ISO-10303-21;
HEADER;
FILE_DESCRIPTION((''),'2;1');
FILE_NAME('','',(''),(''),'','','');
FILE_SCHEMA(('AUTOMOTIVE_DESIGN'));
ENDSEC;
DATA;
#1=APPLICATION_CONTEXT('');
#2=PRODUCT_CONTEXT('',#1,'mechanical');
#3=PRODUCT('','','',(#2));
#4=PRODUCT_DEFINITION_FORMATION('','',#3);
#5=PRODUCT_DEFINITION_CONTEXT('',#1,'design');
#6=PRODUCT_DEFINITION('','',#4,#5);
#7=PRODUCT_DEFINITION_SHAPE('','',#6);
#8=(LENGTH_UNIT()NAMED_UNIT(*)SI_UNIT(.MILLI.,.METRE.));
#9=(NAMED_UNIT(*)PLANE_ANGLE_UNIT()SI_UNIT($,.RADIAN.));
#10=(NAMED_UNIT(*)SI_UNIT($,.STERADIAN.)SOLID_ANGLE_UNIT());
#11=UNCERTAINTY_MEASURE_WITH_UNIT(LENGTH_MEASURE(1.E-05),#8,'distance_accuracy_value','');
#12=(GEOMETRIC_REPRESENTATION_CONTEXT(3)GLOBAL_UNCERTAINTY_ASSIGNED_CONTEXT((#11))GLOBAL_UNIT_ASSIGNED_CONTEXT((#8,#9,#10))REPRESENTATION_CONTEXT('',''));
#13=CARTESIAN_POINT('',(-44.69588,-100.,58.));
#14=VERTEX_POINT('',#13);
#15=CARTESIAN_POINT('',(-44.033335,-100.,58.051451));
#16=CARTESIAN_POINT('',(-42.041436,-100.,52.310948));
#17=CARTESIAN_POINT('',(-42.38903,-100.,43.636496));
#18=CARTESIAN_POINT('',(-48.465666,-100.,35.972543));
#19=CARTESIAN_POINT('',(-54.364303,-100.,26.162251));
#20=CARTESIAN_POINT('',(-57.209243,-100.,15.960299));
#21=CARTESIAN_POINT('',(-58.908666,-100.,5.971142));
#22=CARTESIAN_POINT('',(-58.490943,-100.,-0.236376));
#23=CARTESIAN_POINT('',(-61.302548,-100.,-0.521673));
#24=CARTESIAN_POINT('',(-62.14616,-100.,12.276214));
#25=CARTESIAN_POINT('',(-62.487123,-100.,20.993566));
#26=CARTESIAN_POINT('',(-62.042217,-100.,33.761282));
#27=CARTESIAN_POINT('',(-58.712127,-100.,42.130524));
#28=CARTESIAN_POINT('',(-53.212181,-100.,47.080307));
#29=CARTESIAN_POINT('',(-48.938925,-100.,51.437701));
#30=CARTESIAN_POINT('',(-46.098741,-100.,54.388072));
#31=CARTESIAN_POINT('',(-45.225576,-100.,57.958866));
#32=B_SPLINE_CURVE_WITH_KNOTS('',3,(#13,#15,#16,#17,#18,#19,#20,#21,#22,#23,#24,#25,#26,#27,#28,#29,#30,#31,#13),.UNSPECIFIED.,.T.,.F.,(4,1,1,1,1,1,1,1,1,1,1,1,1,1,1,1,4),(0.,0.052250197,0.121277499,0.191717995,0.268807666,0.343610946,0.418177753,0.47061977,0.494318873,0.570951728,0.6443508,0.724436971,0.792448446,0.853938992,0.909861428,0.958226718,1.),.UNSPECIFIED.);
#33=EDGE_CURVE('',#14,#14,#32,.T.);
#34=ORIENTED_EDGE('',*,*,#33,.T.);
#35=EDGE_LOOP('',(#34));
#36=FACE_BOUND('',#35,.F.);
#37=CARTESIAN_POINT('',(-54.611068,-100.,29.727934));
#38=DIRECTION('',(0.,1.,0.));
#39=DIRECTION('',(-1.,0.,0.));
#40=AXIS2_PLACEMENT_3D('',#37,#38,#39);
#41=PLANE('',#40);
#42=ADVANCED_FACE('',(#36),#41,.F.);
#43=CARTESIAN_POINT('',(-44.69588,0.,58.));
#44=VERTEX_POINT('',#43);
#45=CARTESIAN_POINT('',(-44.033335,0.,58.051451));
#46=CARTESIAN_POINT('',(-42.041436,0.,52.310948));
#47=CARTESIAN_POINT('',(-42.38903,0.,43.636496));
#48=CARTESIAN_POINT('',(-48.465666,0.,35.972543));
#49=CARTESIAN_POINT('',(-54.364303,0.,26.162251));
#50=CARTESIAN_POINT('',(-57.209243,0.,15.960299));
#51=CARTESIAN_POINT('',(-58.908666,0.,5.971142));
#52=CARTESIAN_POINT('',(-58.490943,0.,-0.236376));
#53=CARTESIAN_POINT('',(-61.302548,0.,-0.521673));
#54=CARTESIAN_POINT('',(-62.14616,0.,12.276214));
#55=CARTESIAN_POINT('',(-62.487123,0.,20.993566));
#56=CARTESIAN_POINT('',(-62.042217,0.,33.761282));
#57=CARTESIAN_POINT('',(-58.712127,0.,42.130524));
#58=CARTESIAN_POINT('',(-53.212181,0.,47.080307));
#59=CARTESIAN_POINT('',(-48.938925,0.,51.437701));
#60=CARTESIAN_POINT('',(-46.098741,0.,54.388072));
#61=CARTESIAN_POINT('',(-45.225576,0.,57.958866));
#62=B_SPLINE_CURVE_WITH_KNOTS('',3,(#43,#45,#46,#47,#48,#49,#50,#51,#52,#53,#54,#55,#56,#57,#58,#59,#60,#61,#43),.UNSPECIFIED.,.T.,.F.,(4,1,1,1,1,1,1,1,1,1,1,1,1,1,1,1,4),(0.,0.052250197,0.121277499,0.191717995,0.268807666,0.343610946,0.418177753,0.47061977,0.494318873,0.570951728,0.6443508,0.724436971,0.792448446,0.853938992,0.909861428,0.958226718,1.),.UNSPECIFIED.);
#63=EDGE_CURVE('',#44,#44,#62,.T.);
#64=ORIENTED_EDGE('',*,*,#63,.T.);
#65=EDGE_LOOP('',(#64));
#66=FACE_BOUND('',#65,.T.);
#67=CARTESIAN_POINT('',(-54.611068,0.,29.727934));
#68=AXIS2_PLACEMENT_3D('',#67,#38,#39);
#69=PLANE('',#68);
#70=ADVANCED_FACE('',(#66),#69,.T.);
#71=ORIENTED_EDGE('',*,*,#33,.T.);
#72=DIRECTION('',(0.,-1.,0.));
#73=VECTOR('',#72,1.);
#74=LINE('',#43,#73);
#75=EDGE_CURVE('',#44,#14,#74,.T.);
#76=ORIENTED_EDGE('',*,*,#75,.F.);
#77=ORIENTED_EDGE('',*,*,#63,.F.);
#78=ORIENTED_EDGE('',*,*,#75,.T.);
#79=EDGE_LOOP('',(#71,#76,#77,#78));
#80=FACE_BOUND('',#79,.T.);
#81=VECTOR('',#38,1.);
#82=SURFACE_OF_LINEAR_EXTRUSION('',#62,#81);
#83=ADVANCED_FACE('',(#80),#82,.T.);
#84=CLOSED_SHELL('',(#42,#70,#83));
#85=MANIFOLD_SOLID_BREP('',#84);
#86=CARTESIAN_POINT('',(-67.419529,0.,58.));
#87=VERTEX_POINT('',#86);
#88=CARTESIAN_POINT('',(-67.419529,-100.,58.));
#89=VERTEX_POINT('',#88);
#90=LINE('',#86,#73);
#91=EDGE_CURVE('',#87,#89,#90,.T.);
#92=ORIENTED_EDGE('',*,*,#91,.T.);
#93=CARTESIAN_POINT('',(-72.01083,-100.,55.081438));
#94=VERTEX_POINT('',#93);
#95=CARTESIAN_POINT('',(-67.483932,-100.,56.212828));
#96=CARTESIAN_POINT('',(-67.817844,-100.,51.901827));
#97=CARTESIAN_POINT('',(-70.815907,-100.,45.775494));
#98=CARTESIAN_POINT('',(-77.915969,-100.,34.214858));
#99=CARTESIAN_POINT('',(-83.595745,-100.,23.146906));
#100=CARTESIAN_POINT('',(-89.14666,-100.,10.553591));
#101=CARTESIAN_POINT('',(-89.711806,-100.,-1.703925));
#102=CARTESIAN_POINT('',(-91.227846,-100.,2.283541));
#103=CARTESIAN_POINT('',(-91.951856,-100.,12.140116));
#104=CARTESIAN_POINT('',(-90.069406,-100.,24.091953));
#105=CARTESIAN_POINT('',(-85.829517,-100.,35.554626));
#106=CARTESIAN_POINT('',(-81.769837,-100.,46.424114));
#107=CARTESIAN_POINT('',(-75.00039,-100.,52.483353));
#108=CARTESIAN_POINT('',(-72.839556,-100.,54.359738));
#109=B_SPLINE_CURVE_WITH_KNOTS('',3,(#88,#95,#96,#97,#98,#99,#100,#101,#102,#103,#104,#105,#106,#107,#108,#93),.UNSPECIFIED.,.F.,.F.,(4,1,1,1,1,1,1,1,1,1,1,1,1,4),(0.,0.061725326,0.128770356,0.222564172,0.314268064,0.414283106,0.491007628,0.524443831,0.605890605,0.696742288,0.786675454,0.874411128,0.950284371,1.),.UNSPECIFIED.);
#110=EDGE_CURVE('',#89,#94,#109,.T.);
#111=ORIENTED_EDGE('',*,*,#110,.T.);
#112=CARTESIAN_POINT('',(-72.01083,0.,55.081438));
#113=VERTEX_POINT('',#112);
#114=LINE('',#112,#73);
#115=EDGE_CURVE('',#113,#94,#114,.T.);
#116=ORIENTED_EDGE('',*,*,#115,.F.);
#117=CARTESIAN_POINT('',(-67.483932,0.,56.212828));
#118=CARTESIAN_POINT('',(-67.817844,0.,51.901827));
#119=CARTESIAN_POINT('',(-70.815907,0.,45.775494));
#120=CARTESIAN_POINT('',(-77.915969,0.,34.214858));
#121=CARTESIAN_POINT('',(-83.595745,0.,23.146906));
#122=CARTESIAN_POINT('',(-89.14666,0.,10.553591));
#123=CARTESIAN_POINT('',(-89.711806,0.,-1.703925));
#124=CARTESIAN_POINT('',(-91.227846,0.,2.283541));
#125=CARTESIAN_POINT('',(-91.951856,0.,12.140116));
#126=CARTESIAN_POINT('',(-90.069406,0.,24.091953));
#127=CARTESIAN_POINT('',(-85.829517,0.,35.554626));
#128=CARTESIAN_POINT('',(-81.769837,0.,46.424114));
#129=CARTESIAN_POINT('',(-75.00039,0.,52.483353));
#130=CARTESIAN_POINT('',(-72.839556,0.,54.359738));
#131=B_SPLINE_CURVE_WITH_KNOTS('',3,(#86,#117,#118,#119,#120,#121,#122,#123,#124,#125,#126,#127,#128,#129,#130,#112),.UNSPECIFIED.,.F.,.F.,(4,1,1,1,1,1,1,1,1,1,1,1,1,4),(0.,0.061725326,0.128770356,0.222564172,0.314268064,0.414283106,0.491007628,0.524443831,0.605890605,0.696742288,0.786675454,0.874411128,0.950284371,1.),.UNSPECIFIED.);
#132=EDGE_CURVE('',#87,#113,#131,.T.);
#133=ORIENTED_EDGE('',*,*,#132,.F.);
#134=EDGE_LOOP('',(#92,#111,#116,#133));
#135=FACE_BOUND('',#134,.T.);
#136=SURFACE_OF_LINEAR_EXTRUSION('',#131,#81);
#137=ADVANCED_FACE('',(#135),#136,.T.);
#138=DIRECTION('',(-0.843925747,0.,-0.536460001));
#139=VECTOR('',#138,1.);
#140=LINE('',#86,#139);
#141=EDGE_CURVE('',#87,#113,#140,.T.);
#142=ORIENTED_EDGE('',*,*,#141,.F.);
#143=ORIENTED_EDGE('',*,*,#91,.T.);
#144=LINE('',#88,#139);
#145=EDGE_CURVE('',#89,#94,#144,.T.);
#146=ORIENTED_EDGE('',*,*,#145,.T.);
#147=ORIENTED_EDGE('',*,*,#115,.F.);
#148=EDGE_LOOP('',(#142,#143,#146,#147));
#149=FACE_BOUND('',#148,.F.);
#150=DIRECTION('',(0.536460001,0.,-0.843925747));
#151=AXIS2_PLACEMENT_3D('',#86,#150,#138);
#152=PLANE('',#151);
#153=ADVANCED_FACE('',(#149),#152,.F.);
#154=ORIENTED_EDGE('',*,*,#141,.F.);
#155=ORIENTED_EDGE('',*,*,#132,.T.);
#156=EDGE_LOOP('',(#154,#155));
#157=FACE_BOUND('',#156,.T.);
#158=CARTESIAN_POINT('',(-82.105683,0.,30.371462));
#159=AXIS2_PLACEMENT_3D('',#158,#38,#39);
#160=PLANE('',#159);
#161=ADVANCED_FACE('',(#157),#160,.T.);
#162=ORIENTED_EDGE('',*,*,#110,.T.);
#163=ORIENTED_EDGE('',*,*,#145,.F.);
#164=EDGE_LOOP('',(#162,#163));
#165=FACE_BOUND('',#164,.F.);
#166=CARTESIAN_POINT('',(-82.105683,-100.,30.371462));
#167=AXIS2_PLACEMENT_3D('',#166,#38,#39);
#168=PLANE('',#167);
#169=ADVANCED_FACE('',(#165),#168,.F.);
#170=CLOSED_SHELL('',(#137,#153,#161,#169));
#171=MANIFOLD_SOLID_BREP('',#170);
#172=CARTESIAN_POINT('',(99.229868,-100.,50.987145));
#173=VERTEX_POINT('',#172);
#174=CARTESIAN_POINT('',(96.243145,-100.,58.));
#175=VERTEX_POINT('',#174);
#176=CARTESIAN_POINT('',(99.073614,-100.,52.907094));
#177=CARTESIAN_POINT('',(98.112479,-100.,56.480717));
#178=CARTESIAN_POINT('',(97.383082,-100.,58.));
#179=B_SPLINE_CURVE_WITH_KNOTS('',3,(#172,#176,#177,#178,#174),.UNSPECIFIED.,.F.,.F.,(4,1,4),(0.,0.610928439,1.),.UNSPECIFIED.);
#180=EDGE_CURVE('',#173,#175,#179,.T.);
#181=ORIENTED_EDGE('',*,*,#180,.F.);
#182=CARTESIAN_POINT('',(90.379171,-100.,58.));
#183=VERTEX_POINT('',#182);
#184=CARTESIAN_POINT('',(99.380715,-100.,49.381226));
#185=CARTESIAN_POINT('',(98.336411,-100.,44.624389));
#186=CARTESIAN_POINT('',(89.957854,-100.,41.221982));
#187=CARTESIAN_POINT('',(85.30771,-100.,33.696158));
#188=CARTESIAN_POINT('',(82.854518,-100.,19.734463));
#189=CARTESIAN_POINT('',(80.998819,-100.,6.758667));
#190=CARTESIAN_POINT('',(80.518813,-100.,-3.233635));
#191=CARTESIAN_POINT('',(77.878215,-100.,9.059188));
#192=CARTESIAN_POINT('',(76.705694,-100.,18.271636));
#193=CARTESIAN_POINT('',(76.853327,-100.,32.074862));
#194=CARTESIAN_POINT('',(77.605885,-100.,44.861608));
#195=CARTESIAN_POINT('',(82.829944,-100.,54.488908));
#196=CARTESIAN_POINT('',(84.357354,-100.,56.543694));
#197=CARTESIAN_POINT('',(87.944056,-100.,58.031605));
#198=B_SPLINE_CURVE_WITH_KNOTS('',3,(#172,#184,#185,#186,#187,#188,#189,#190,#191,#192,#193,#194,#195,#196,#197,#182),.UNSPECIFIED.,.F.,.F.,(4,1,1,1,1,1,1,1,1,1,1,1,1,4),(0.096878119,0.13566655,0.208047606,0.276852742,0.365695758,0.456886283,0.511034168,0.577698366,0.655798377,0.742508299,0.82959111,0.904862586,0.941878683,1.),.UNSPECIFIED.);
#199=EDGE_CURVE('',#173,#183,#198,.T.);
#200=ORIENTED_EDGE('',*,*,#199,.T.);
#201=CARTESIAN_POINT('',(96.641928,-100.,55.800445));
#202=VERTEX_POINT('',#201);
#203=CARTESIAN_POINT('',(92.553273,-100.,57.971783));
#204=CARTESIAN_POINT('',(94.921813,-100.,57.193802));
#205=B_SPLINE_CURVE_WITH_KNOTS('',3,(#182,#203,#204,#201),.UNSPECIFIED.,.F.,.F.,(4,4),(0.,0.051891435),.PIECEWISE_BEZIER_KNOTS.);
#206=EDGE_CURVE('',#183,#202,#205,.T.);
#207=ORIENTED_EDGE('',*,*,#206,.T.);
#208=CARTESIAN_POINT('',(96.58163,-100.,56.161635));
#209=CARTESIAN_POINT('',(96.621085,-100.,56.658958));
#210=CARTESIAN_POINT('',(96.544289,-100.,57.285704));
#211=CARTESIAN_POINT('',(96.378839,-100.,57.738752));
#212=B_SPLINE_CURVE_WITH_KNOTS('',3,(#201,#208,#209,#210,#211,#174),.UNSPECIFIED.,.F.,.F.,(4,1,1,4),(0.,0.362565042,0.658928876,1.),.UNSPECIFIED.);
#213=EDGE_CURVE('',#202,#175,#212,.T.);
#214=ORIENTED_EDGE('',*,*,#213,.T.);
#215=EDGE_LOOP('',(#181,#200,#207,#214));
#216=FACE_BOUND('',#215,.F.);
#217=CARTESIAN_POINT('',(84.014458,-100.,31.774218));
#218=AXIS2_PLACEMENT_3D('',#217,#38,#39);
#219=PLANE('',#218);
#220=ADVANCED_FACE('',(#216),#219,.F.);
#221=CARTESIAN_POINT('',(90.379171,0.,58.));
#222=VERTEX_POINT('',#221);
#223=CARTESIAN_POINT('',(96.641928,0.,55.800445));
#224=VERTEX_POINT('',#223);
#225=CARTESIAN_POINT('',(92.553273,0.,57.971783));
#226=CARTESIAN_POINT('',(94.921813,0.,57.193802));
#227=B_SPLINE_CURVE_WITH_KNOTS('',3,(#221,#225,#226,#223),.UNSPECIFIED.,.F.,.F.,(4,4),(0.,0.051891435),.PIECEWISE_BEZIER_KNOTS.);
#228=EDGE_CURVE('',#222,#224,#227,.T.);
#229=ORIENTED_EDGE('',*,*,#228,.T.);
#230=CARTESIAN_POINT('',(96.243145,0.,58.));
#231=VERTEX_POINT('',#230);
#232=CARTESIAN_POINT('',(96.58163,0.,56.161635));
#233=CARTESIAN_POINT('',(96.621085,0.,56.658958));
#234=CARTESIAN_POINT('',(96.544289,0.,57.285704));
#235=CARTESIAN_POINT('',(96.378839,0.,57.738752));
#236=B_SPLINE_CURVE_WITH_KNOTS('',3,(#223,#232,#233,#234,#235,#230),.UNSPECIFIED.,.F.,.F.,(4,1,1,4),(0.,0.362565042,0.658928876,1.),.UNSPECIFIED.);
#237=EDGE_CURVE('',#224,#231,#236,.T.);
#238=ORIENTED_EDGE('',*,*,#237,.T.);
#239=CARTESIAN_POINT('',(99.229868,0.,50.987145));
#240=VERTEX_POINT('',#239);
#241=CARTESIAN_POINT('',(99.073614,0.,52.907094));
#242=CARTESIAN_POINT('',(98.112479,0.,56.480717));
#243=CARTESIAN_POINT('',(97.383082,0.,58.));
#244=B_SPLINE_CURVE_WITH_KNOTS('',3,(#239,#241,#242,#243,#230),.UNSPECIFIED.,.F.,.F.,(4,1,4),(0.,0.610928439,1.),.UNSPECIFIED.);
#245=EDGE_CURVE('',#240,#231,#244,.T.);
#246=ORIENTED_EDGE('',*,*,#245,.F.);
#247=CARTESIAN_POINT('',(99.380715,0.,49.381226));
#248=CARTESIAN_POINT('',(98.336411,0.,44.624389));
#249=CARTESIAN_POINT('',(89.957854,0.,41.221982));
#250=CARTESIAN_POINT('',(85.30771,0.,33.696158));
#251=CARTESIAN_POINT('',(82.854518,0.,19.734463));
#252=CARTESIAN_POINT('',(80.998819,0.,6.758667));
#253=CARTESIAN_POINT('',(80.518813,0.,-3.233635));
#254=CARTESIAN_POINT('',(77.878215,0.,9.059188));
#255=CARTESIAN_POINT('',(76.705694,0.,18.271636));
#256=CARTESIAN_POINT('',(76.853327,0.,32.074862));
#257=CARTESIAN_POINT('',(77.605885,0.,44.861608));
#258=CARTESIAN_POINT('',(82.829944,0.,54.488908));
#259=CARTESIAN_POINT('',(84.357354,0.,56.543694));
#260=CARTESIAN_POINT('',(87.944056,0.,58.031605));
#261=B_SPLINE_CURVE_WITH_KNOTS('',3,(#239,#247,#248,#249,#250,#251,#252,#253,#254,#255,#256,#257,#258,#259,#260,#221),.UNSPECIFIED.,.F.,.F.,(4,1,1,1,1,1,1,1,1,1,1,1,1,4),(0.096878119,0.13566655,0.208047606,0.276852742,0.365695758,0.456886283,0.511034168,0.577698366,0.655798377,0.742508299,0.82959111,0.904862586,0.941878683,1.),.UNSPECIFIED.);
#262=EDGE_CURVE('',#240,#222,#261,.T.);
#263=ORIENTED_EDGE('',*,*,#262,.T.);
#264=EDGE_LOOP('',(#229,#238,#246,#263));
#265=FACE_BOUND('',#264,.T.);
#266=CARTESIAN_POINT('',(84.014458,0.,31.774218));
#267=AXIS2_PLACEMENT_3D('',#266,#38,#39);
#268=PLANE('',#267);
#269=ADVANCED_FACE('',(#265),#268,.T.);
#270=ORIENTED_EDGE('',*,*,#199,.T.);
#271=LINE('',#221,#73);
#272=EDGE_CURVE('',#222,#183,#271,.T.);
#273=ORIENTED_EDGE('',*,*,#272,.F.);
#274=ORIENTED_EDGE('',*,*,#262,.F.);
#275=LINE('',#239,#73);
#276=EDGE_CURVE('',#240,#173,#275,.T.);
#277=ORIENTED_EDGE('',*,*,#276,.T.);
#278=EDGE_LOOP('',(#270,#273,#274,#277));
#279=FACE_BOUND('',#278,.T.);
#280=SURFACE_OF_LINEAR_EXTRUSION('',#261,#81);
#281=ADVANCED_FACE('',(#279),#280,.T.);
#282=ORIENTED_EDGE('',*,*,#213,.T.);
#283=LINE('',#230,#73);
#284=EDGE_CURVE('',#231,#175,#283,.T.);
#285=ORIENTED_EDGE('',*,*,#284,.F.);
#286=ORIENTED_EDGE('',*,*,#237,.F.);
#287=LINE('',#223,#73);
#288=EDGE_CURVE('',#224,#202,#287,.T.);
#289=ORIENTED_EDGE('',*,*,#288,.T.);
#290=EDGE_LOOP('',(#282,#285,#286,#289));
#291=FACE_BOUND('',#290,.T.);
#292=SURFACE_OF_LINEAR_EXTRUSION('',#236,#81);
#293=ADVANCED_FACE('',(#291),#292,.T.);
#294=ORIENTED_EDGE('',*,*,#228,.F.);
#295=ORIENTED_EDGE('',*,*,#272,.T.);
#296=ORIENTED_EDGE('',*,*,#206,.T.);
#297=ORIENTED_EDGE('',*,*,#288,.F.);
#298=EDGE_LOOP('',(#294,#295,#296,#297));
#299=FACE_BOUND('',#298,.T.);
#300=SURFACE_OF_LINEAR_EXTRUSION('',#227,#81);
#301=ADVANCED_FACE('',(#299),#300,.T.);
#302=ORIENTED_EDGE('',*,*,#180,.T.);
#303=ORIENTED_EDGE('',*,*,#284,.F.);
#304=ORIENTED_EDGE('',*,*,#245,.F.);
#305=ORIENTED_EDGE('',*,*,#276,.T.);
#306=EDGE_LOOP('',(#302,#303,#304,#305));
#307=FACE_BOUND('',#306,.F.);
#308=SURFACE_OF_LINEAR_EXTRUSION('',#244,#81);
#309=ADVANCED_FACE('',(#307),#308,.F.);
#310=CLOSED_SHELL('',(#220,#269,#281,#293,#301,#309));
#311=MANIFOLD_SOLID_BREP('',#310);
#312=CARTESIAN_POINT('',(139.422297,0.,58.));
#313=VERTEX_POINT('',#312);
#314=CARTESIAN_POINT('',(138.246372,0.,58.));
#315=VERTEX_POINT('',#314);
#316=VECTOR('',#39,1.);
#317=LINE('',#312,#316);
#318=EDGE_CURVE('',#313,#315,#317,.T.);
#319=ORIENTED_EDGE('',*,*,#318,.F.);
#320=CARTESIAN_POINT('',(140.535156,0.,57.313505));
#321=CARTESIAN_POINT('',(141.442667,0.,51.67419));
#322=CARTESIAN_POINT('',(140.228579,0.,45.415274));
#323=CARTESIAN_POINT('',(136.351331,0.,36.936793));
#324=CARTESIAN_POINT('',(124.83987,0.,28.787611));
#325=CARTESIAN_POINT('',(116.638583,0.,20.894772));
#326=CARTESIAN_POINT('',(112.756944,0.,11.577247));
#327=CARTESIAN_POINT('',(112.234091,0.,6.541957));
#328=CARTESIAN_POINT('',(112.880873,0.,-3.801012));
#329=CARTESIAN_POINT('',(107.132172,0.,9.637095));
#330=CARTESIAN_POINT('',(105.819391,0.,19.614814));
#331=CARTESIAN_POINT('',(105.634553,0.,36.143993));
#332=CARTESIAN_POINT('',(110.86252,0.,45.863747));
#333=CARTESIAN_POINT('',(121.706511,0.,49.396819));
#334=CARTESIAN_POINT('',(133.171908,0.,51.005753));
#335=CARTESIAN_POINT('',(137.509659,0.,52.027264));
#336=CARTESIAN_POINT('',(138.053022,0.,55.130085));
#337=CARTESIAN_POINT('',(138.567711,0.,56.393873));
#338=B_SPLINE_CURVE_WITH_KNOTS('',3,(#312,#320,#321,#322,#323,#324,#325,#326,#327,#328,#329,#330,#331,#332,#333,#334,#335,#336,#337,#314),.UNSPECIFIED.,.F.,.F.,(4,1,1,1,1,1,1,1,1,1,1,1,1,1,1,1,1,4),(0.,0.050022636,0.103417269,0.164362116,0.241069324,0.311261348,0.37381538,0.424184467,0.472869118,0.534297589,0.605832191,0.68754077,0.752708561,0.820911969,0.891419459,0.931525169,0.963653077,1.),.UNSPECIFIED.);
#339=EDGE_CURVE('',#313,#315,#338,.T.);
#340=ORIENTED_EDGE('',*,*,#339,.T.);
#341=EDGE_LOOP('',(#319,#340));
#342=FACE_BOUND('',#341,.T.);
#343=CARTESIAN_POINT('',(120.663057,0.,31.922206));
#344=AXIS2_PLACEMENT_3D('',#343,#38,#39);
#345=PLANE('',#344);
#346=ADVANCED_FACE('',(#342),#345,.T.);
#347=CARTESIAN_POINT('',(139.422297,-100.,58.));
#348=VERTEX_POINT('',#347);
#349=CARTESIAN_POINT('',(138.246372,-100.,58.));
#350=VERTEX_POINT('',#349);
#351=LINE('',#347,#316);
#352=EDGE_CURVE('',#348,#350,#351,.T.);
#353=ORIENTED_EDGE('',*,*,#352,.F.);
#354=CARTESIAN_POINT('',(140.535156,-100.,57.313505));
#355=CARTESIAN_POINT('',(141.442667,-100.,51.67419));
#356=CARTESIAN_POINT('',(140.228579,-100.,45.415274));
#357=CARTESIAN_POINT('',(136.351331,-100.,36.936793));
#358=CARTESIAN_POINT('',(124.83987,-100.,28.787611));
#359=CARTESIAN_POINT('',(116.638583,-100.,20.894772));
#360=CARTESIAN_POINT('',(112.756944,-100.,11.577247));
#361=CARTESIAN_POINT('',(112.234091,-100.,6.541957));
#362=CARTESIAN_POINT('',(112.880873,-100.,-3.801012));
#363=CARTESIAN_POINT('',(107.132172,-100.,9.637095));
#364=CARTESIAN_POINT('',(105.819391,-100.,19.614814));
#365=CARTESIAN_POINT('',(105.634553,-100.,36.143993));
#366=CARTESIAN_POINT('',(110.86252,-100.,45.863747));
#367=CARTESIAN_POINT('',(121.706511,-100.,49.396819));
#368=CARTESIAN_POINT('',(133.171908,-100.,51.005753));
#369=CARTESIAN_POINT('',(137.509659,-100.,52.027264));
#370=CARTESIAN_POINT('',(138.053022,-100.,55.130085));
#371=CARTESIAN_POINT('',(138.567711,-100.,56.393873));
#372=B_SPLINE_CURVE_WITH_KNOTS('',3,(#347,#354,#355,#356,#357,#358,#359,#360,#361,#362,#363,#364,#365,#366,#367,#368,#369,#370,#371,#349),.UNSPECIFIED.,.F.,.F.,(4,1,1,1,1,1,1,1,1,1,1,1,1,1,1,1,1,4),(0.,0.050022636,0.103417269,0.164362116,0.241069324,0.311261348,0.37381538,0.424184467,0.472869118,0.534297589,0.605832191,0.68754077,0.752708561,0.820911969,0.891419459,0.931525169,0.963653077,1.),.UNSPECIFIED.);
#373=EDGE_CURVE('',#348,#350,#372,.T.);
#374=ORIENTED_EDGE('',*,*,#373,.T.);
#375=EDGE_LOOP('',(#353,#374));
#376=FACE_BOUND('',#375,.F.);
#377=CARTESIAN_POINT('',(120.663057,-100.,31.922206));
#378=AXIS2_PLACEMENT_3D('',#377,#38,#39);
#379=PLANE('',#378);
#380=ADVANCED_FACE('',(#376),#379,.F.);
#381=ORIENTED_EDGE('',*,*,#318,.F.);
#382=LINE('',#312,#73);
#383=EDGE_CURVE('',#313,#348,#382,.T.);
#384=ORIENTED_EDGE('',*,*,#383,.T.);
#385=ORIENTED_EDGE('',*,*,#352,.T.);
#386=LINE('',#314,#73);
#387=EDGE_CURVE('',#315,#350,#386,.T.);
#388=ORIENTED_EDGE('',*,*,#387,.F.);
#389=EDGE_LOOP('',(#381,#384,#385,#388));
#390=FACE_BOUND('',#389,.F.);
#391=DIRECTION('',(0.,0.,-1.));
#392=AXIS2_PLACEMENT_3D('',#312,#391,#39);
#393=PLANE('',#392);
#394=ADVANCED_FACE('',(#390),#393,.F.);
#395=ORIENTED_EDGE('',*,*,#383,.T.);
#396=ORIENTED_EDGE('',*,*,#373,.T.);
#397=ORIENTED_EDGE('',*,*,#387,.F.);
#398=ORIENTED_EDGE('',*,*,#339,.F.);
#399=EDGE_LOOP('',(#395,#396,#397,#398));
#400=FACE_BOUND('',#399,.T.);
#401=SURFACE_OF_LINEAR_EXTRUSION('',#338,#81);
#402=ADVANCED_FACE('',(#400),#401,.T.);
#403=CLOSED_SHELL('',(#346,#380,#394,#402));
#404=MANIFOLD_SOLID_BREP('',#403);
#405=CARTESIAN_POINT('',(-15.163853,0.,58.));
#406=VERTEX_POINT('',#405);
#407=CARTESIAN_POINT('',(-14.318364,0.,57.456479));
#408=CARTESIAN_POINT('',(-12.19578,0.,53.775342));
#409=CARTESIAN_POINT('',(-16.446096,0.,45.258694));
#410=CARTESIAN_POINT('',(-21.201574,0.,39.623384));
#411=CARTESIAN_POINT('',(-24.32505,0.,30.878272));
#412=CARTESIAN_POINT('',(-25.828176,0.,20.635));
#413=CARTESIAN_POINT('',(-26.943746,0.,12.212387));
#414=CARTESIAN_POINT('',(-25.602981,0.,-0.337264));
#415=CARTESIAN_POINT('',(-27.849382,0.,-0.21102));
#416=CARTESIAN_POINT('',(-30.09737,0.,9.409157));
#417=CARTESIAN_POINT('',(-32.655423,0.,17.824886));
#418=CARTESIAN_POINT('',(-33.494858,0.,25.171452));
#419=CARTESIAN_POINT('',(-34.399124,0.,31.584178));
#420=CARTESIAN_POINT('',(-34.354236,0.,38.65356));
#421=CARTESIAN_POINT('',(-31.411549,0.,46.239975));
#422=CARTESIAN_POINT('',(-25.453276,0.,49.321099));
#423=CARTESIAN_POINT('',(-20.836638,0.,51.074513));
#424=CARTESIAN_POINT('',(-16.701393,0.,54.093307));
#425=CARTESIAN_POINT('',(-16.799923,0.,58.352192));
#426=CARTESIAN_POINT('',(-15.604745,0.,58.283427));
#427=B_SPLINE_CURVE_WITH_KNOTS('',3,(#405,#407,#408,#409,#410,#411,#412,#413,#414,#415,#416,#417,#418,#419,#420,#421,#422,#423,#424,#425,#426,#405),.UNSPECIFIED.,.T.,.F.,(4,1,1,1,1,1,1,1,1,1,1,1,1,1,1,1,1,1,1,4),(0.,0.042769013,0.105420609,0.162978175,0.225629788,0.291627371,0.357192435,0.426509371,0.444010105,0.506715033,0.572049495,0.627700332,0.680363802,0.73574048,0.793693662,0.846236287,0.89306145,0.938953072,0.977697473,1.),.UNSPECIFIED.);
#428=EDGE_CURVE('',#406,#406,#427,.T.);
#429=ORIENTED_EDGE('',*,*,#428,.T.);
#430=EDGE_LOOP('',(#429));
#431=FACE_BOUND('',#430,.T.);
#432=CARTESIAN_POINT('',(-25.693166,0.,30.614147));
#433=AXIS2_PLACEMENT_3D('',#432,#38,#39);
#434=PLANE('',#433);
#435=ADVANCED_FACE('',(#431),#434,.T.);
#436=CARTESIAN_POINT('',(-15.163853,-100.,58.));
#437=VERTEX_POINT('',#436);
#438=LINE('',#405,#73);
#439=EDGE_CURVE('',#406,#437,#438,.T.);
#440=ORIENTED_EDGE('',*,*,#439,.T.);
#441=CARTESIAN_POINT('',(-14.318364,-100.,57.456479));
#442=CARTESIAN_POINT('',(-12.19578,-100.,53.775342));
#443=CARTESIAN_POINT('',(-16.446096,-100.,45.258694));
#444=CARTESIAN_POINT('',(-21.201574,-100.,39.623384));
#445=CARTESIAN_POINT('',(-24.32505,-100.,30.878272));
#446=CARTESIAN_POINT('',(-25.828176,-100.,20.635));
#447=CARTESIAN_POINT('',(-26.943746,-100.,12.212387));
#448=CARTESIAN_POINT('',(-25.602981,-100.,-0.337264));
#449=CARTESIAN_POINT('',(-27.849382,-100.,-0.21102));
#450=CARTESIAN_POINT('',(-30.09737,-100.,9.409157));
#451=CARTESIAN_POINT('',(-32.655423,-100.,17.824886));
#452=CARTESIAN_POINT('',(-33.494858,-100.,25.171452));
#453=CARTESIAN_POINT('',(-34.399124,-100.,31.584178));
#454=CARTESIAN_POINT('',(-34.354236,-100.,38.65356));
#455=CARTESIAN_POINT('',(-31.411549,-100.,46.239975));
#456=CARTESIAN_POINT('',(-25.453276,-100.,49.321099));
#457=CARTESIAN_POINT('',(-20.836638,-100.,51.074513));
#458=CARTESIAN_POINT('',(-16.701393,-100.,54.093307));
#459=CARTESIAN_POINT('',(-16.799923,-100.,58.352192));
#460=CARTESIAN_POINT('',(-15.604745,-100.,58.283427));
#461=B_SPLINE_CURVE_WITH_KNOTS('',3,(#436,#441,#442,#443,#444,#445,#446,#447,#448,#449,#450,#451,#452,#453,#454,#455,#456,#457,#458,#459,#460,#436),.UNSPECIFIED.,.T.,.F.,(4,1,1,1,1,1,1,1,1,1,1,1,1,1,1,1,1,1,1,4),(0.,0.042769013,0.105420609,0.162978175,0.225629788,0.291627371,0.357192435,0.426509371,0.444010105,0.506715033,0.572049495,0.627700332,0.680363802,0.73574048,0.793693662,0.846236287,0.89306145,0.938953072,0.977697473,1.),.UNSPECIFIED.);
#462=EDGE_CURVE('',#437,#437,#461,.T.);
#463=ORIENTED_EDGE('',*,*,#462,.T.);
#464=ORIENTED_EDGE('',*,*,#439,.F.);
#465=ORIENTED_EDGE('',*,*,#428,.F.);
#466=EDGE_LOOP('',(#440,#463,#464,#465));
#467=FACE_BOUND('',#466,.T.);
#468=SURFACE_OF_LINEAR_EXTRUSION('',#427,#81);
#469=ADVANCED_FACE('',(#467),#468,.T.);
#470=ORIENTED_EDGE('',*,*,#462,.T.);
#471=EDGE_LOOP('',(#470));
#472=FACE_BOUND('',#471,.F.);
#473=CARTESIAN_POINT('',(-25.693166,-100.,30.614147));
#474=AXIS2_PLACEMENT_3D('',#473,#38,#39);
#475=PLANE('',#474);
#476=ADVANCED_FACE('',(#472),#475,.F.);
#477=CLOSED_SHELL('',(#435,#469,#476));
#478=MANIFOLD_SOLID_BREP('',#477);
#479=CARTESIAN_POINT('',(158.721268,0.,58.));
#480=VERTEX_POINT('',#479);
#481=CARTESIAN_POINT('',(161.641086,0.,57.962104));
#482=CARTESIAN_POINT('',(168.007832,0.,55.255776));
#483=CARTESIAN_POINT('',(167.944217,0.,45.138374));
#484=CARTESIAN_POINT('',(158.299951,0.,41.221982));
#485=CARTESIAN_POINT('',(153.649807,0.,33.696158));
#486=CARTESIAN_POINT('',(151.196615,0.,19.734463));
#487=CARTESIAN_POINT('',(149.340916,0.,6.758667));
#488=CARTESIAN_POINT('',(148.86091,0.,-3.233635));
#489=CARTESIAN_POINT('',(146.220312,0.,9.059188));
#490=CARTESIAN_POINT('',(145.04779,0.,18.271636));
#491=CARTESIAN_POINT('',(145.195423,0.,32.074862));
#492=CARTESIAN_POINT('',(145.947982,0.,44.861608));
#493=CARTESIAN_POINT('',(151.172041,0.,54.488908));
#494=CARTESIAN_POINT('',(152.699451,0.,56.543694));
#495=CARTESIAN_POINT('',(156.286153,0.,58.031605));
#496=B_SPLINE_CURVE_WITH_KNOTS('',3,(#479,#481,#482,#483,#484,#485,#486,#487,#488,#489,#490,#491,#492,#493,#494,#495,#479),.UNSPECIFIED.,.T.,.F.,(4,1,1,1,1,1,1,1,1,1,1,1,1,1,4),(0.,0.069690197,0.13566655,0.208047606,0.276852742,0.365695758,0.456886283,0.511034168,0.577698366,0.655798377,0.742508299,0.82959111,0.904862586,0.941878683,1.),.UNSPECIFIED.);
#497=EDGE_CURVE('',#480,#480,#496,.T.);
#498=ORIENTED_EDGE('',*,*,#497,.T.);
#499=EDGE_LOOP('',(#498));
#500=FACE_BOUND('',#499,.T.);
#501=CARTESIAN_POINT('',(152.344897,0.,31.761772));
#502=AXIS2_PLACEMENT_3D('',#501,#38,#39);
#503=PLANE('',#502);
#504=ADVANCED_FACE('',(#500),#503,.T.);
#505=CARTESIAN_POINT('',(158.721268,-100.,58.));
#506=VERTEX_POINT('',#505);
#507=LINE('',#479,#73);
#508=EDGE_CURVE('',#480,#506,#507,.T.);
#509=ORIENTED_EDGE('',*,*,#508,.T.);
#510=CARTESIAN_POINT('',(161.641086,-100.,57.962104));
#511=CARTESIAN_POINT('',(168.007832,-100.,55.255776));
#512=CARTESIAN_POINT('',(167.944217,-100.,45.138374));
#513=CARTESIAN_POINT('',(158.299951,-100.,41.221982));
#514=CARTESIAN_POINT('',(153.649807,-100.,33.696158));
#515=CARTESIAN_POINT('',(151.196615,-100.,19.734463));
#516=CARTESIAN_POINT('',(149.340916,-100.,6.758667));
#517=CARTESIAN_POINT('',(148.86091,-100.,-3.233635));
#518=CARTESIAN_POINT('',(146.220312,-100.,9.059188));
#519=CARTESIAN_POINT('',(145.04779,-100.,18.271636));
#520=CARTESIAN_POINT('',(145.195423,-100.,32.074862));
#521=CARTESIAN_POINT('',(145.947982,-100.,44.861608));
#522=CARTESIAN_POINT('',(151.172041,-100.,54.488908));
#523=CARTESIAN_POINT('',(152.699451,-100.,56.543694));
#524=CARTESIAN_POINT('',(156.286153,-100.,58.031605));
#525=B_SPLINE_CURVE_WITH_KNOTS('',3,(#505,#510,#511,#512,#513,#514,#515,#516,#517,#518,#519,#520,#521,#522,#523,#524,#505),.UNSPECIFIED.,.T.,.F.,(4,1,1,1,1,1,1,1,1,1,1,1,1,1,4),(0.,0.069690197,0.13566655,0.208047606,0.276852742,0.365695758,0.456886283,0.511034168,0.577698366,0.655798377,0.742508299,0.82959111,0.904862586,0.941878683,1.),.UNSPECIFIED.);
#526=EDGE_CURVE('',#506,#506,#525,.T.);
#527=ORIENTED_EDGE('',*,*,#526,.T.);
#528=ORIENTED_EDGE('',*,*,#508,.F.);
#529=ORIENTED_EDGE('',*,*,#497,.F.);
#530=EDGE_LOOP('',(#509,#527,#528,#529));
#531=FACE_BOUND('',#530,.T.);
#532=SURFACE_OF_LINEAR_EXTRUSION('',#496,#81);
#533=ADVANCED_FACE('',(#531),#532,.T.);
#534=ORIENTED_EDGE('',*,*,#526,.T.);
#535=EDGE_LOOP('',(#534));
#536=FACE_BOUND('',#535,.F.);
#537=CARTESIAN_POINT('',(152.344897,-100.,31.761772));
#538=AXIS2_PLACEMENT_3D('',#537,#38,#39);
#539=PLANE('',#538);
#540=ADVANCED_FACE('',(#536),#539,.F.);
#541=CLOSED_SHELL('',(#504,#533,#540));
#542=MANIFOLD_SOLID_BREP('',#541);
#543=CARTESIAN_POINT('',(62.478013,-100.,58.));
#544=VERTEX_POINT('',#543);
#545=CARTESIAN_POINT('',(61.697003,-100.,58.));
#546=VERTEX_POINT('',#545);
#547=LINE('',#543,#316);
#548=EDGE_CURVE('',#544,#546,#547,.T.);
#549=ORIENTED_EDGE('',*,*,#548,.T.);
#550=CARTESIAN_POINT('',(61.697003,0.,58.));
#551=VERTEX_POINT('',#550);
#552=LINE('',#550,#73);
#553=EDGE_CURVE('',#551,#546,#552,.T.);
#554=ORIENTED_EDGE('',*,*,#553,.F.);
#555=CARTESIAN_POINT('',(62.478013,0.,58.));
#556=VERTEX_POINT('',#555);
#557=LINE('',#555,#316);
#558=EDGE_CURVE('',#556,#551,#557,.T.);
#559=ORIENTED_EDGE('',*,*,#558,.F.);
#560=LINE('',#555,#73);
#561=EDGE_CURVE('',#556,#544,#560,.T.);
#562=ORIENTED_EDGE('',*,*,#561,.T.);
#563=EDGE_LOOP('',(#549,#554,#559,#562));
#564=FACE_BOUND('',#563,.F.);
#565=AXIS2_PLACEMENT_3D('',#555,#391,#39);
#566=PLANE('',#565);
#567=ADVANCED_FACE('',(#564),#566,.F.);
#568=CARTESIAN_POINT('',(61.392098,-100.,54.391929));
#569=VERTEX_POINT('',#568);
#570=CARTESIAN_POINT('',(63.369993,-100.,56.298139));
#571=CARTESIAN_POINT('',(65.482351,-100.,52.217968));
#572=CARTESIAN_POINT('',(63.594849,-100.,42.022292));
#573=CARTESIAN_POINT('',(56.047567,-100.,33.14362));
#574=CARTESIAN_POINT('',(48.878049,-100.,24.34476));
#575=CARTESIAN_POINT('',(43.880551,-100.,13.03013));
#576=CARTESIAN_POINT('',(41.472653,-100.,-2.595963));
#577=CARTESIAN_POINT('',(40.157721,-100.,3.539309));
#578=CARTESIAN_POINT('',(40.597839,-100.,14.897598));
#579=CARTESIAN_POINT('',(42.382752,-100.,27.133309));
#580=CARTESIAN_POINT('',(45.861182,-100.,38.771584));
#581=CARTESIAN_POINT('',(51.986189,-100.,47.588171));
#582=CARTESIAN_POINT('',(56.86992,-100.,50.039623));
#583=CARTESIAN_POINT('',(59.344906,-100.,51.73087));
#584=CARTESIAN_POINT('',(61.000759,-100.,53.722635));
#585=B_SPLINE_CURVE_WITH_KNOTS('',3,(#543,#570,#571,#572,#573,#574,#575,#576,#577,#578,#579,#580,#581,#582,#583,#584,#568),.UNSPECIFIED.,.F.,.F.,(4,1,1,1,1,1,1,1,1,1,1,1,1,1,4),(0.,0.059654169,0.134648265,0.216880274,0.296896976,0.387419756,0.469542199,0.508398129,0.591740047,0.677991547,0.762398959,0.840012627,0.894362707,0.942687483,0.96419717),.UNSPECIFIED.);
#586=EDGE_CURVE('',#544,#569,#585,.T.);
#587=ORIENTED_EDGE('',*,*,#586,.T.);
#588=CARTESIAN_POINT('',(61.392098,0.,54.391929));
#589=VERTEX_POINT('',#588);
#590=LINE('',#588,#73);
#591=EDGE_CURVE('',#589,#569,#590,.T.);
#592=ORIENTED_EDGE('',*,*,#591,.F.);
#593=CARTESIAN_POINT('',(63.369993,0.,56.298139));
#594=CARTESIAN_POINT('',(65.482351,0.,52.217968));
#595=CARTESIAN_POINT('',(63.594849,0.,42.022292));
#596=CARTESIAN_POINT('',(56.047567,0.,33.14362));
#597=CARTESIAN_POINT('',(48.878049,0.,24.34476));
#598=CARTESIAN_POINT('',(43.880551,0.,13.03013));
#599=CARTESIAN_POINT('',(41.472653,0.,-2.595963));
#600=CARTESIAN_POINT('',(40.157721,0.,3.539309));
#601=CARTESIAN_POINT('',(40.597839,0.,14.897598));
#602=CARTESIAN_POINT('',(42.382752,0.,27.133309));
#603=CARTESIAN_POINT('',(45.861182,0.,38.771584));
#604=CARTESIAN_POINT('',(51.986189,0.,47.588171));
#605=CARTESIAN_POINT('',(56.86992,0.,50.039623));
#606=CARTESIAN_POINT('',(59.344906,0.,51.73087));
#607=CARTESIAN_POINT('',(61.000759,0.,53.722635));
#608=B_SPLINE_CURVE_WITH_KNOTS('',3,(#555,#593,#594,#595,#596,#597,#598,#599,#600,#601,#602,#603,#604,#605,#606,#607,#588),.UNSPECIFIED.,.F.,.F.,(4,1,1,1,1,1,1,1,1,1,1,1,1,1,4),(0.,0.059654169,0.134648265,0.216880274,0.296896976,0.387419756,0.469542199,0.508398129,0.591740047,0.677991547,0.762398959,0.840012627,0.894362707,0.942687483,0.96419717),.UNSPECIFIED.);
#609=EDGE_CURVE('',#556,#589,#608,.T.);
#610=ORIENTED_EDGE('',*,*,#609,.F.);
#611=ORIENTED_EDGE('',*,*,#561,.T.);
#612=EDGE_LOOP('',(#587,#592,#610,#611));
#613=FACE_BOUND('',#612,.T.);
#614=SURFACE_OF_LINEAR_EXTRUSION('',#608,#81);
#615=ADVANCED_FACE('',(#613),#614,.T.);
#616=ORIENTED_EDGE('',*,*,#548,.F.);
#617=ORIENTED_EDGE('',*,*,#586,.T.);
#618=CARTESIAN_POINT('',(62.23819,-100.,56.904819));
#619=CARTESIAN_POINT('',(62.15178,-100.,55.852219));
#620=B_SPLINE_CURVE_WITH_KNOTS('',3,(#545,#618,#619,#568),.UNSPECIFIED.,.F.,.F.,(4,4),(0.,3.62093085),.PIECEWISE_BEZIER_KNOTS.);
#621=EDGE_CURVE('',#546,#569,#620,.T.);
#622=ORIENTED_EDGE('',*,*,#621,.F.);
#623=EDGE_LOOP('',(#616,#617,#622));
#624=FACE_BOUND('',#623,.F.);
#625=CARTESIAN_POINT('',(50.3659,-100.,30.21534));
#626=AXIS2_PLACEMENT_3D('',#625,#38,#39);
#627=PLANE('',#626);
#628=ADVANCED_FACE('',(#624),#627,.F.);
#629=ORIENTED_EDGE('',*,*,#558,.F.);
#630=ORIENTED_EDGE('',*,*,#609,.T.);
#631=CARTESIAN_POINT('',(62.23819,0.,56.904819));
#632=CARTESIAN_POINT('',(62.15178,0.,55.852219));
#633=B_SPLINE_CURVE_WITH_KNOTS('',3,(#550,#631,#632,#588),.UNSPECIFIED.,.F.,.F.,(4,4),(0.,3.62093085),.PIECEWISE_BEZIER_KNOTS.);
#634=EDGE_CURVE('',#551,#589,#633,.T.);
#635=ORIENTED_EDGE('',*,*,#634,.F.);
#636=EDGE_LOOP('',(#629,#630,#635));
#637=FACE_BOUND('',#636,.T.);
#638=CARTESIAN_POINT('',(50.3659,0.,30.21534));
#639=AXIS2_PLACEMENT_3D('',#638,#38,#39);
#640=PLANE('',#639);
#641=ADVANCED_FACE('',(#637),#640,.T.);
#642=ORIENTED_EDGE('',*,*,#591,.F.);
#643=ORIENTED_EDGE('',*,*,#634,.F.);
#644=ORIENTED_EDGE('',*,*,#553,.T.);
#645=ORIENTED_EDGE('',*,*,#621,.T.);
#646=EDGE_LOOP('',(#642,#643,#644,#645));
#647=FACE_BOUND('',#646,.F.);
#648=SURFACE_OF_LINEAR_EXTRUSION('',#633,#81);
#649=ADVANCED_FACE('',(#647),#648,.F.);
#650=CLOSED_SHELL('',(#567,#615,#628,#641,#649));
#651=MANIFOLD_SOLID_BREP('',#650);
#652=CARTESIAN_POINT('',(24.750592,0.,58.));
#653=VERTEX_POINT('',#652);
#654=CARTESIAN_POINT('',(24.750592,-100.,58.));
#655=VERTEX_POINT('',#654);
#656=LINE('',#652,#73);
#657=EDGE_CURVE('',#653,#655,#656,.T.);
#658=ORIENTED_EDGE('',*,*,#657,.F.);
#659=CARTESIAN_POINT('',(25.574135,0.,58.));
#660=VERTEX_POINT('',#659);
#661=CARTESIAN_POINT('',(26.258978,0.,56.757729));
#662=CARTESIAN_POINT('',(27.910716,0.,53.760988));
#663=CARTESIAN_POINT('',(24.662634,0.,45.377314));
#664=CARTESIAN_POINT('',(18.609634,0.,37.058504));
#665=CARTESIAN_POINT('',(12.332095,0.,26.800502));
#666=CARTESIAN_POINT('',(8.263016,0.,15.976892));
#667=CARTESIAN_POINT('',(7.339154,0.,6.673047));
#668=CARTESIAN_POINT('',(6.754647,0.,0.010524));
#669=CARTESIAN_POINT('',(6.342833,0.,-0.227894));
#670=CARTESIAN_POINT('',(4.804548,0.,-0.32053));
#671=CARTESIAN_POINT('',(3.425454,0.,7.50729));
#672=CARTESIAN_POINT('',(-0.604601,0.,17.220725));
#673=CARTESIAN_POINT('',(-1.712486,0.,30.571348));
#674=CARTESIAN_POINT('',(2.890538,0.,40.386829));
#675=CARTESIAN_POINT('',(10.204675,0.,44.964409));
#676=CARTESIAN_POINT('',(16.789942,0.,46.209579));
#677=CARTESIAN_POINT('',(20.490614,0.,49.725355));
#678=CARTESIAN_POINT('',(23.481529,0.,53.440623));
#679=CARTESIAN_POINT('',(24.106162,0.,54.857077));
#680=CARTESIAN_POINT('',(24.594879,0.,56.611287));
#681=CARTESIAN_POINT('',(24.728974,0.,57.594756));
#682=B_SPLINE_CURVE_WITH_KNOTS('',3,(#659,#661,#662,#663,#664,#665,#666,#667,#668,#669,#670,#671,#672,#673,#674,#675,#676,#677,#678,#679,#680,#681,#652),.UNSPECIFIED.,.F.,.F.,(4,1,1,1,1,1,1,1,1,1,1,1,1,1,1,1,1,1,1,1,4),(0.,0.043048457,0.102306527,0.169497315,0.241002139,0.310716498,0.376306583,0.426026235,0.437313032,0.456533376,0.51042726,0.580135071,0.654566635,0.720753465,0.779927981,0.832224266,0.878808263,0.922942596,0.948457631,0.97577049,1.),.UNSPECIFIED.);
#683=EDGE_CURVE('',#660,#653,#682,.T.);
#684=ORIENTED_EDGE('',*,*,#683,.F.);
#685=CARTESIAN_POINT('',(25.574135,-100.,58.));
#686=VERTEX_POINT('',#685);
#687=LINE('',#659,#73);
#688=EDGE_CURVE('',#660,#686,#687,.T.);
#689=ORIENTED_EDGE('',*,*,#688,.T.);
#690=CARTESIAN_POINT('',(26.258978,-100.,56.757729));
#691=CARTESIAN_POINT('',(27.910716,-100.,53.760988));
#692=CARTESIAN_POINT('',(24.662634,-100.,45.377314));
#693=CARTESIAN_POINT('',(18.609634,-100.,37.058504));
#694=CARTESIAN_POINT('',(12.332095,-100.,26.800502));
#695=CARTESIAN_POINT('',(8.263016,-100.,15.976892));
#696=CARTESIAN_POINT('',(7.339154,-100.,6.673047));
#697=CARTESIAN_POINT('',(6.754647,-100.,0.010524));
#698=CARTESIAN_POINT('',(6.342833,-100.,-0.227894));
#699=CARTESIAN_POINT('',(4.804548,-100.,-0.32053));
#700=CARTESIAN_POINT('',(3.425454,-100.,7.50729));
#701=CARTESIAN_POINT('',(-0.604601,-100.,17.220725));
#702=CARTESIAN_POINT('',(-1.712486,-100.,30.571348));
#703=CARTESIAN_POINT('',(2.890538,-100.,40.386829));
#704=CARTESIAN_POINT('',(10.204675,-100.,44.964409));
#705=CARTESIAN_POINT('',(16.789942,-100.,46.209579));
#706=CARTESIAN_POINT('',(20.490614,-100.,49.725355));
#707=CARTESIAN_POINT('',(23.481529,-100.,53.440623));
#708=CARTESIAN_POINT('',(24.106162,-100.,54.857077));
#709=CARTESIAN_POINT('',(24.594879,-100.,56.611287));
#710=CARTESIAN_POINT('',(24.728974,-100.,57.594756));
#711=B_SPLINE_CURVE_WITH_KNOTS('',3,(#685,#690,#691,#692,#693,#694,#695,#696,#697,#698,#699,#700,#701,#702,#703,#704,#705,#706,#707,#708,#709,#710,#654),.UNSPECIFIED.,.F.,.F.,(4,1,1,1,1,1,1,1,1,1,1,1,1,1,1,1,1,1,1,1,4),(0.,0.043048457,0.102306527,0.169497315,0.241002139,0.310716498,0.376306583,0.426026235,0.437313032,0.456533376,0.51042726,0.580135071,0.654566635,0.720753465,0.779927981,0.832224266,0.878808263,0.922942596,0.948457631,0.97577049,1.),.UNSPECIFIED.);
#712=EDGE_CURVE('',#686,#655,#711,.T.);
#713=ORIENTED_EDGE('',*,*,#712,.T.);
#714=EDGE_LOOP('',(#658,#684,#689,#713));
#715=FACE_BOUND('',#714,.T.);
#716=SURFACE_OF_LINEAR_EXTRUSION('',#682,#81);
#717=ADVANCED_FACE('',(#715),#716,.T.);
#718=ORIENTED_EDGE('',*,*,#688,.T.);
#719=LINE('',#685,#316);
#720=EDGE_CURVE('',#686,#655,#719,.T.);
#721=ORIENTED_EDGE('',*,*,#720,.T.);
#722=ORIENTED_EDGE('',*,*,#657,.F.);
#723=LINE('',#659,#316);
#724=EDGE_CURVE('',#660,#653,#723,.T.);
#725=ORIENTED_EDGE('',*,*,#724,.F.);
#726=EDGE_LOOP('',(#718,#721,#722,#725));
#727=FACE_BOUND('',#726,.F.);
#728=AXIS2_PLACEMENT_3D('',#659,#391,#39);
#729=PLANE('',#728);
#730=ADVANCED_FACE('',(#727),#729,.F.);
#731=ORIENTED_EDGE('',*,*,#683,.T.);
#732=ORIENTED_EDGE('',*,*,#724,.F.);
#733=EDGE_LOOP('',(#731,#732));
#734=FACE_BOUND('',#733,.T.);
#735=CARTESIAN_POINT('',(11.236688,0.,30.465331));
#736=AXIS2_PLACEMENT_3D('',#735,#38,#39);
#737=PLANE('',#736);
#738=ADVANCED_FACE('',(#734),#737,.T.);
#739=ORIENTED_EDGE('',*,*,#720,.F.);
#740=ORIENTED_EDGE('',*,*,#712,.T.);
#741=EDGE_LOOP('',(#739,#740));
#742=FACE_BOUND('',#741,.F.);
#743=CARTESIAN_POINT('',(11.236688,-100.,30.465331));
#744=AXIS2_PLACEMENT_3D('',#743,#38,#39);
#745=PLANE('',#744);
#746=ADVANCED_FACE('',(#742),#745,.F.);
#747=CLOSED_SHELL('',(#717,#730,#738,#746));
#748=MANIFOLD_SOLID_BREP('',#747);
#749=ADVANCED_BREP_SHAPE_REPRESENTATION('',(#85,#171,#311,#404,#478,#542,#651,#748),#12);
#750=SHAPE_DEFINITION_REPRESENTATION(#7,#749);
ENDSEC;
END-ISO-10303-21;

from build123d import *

# Parameters (mm, degrees)
F1_DEPTH = 100


with BuildPart() as f1:
    # F0 (on Front) → F1 (new body)
    with BuildSketch(Plane.XZ):
        with BuildLine():
            add(Edge.make_bspline(
                [(25.5741346627, 58), (26.2589779969, 56.7577294477), (27.910715962, 53.7609880199), (24.6626342032, 45.377314309), (18.6096341865, 37.0585035761), (12.3320952042, 26.8005020667), (8.2630159776, 15.9768924199), (7.3391535803, 6.6730465457), (6.7546467987, 0.010524349), (6.3428331116, -0.2278938983), (4.8045475946, -0.3205295155), (3.4254539284, 7.5072897068), (-0.6046011679, 17.2207248031), (-1.7124861098, 30.5713481522), (2.8905381396, 40.3868291903), (10.2046750861, 44.9644087063), (16.7899424332, 46.209579335), (20.4906142468, 49.7253554704), (23.4815286437, 53.4406232279), (24.1061615926, 54.8570770653), (24.5948787013, 56.6112866527), (24.7289741609, 57.5947558811), (24.750592187, 58)],
                knots=[0, 0, 0, 0, 0.0430484574, 0.1023065266, 0.1694973148, 0.2410021387, 0.3107164976, 0.3763065827, 0.4260262348, 0.4373130318, 0.4565333756, 0.5104272604, 0.5801350706, 0.6545666354, 0.7207534646, 0.7799279806, 0.8322242657, 0.8788082629, 0.9229425964, 0.9484576314, 0.9757704895, 1, 1, 1, 1], degree=3))
            Line((25.5741346627, 58), (24.750592187, 58))
        make_face()
    extrude(amount=F1_DEPTH)


with BuildPart() as f1b:
    # F0 (on Front) → F1, piece 2 (new body)
    with BuildSketch(Plane.XZ):
        with BuildLine():
            add(Edge.make_bspline(
                [(-15.1638528332, 58), (-14.3183641246, 57.4564787091), (-12.1957800205, 53.7753422118), (-16.4460960883, 45.2586939027), (-21.2015741198, 39.6233844542), (-24.3250495155, 30.8782720381), (-25.8281756765, 20.6349995466), (-26.9437462257, 12.2123870458), (-25.6029813152, -0.337263726), (-27.8493822142, -0.2110202709), (-30.0973698834, 9.4091570047), (-32.655422968, 17.8248855184), (-33.4948580907, 25.1714518319), (-34.3991238734, 31.5841779352), (-34.3542362796, 38.6535596746), (-31.4115485002, 46.2399746195), (-25.4532757534, 49.3210992688), (-20.8366380571, 51.074512827), (-16.7013927989, 54.0933069754), (-16.7999230417, 58.3521920126), (-15.6047452773, 58.2834271208), (-15.1638528332, 58)],
                knots=[0, 0, 0, 0, 0.0427690127, 0.1054206091, 0.162978175, 0.2256297884, 0.2916273709, 0.357192435, 0.426509371, 0.444010105, 0.5067150331, 0.5720494948, 0.6277003322, 0.6803638017, 0.7357404797, 0.7936936621, 0.8462362865, 0.89306145, 0.9389530723, 0.9776974733, 1, 1, 1, 1], degree=3))
        make_face()
    extrude(amount=F1_DEPTH)


with BuildPart() as f1c:
    # F0 (on Front) → F1, piece 3 (new body)
    with BuildSketch(Plane.XZ):
        with BuildLine():
            add(Edge.make_bspline(
                [(-44.695880264, 58), (-44.0333348094, 58.0514506615), (-42.0414356916, 52.3109476936), (-42.3890297506, 43.6364961869), (-48.4656660633, 35.9725426066), (-54.364303451, 26.1622514636), (-57.2092434141, 15.9602991131), (-58.9086657051, 5.9711423816), (-58.4909429156, -0.2363763838), (-61.3025483048, -0.5216727764), (-62.1461596693, 12.2762135161), (-62.487123232, 20.9935662968), (-62.0422168537, 33.7612819937), (-58.7121266474, 42.1305241936), (-53.2121811001, 47.0803069766), (-48.938925031, 51.4377005179), (-46.0987414206, 54.3880715757), (-45.2255758414, 57.9588659349), (-44.695880264, 58)],
                knots=[0, 0, 0, 0, 0.0522501972, 0.1212774991, 0.191717995, 0.2688076663, 0.3436109457, 0.4181777532, 0.4706197704, 0.4943188727, 0.5709517283, 0.6443507998, 0.7244369714, 0.7924484459, 0.8539389921, 0.9098614277, 0.9582267176, 1, 1, 1, 1], degree=3))
        make_face()
    extrude(amount=F1_DEPTH)


with BuildPart() as f1d:
    # F0 (on Front) → F1, piece 4 (new body)
    with BuildSketch(Plane.XZ):
        with BuildLine():
            add(Edge.make_bspline(
                [(-67.4195289612, 58), (-67.4839315315, 56.2128277838), (-67.8178441128, 51.901827265), (-70.8159069149, 45.7754936445), (-77.9159692905, 34.2148583409), (-83.5957450749, 23.1469062744), (-89.1466598636, 10.5535908166), (-89.7118057668, -1.703925442), (-91.2278463379, 2.2835407221), (-91.9518555978, 12.1401155151), (-90.0694061039, 24.0919526722), (-85.8295171261, 35.5546262197), (-81.7698366444, 46.424113915), (-75.0003900734, 52.4833533462), (-72.8395562071, 54.3597379192), (-72.0108300447, 55.0814382732)],
                knots=[0, 0, 0, 0, 0.061725326, 0.1287703564, 0.2225641724, 0.3142680639, 0.4142831062, 0.4910076281, 0.5244438307, 0.6058906047, 0.6967422878, 0.7866754537, 0.8744111275, 0.9502843706, 1, 1, 1, 1], degree=3))
            Line((-67.4195289612, 58), (-72.0108300447, 55.0814382732))
        make_face()
    extrude(amount=F1_DEPTH)


with BuildPart() as f1e:
    # F0 (on Front) → F1, piece 5 (new body)
    with BuildSketch(Plane.XZ):
        with BuildLine():
            add(Edge.make_bspline(
                [(62.4780133367, 58), (63.3699930678, 56.298139286), (65.4823505068, 52.2179681611), (63.5948494852, 42.0222916399), (56.047566957, 33.1436200276), (48.8780490033, 24.3447602685), (43.8805505478, 13.0301299731), (41.4726530197, -2.5959626325), (40.1577207036, 3.5393088267), (40.5978392545, 14.897597573), (42.3827523371, 27.1333093783), (45.861181713, 38.7715837375), (51.9861893031, 47.5881711447), (56.8699204706, 50.0396225174), (59.3449059353, 51.7308702659), (61.0007589529, 53.7226352936), (61.3920983617, 54.3919293677)],
                knots=[0, 0, 0, 0, 0.0596541687, 0.1346482647, 0.2168802744, 0.2968969758, 0.3874197563, 0.4695421995, 0.5083981289, 0.5917400474, 0.6779915465, 0.7623989593, 0.8400126268, 0.8943627074, 0.9426874829, 0.9641971705, 0.9641971705, 0.9641971705, 0.9641971705], degree=3))
            Line((62.4780133367, 58), (61.6970025003, 58))
            add(Edge.make_bspline(
                [(61.3920983617, 54.3919293677), (62.0434819806, 55.5059679395), (62.3660583453, 56.7746345533), (61.6970025003, 58)],
                knots=[0.9641971705, 0.9641971705, 0.9641971705, 0.9641971705, 1, 1, 1, 1], degree=3))
        make_face()
        with BuildLine():
            add(Edge.make_bspline(
                [(61.6970025003, 58), (62.238190319, 56.9048186501), (62.1517804278, 55.8522192245), (61.3920983617, 54.3919293677)],
                knots=[0, 0, 0, 0, 3.6209308502, 3.6209308502, 3.6209308502, 3.6209308502], degree=3))
            add(Edge.make_bspline(
                [(61.3920983617, 54.3919293677), (62.0434819806, 55.5059679395), (62.3660583453, 56.7746345533), (61.6970025003, 58)],
                knots=[0.9641971705, 0.9641971705, 0.9641971705, 0.9641971705, 1, 1, 1, 1], degree=3))
        make_face()
    extrude(amount=F1_DEPTH)


with BuildPart() as f1f:
    # F0 (on Front) → F1, piece 6 (new body)
    with BuildSketch(Plane.XZ):
        with BuildLine():
            add(Edge.make_bspline(
                [(90.3791714734, 58), (92.553272747, 57.9717829429), (94.9218128289, 57.1938016621), (96.6419279575, 55.8004453778)],
                knots=[0, 0, 0, 0, 0.0518914352, 0.0518914352, 0.0518914352, 0.0518914352], degree=3))
            add(Edge.make_bspline(
                [(99.2298681775, 50.9871448838), (99.3807148469, 49.3812257082), (98.3364106441, 44.6243885113), (89.9578540014, 41.2219816828), (85.3077102251, 33.6961578275), (82.8545184398, 19.7344626085), (80.9988193918, 6.7586668869), (80.5188131678, -3.2336346069), (77.8782148455, 9.0591881661), (76.7056937387, 18.2716360534), (76.8533267662, 32.0748616611), (77.6058850757, 44.861607514), (82.8299441616, 54.4889076863), (84.357354032, 56.5436942931), (87.9440561605, 58.0316046859), (90.3791714734, 58)],
                knots=[0.0968781188, 0.0968781188, 0.0968781188, 0.0968781188, 0.1356665503, 0.2080476064, 0.276852742, 0.3656957578, 0.4568862831, 0.5110341684, 0.5776983663, 0.655798377, 0.7425082995, 0.82959111, 0.9048625863, 0.9418786834, 1, 1, 1, 1], degree=3))
            add(Edge.make_bspline(
                [(96.6419279575, 55.8004453778), (97.2319274284, 55.3225241871), (98.5303458972, 53.9315821155), (99.1241354293, 52.1127795996), (99.2298681775, 50.9871448838)],
                knots=[0.0518914352, 0.0518914352, 0.0518914352, 0.0518914352, 0.069690197, 0.0968781188, 0.0968781188, 0.0968781188, 0.0968781188], degree=3))
        make_face()
        with BuildLine():
            add(Edge.make_bspline(
                [(96.6419279575, 55.8004453778), (96.5816300968, 56.1616346322), (96.6210851784, 56.6589577672), (96.5442886845, 57.2857038613), (96.3788388717, 57.7387515326), (96.2431453979, 58)],
                knots=[0, 0, 0, 0, 0.3625650416, 0.6589288762, 1, 1, 1, 1], degree=3))
            add(Edge.make_bspline(
                [(96.6419279575, 55.8004453778), (97.2319274284, 55.3225241871), (98.5303458972, 53.9315821155), (99.1241354293, 52.1127795996), (99.2298681775, 50.9871448838)],
                knots=[0.0518914352, 0.0518914352, 0.0518914352, 0.0518914352, 0.069690197, 0.0968781188, 0.0968781188, 0.0968781188, 0.0968781188], degree=3))
            add(Edge.make_bspline(
                [(99.2298681775, 50.9871448838), (99.073613904, 52.9070941761), (98.11247924, 56.4807173261), (97.3830816238, 58), (96.2431453979, 58)],
                knots=[0, 0, 0, 0, 0.6109284389, 1, 1, 1, 1], degree=3))
        make_face()
    extrude(amount=F1_DEPTH)


with BuildPart() as f1g:
    # F0 (on Front) → F1, piece 7 (new body)
    with BuildSketch(Plane.XZ):
        with BuildLine():
            add(Edge.make_bspline(
                [(139.4222974777, 58), (140.5351558484, 57.3135050212), (141.4426667073, 51.6741901411), (140.2285794272, 45.4152743525), (136.3513313953, 36.9367928975), (124.8398704085, 28.7876106586), (116.6385834573, 20.8947724161), (112.7569436817, 11.5772468195), (112.2340906486, 6.5419567802), (112.8808734446, -3.8010117817), (107.1321717542, 9.6370954415), (105.8193913696, 19.6148135392), (105.6345530032, 36.1439928875), (110.8625199539, 45.8637473175), (121.7065113827, 49.396819138), (133.1719078221, 51.0057531881), (137.5096593056, 52.0272642827), (138.0530217262, 55.1300845134), (138.5677106097, 56.3938731463), (138.2463723421, 58)],
                knots=[0, 0, 0, 0, 0.0500226359, 0.1034172691, 0.1643621164, 0.2410693245, 0.3112613475, 0.3738153799, 0.4241844666, 0.4728691181, 0.5342975895, 0.6058321905, 0.6875407704, 0.7527085613, 0.8209119691, 0.8914194591, 0.9315251687, 0.963653077, 1, 1, 1, 1], degree=3))
            Line((139.4222974777, 58), (138.2463723421, 58))
        make_face()
    extrude(amount=F1_DEPTH)


with BuildPart() as f1h:
    # F0 (on Front) → F1, piece 8 (new body)
    with BuildSketch(Plane.XZ):
        with BuildLine():
            add(Edge.make_bspline(
                [(158.721268177, 58), (161.6410861644, 57.9621044926), (168.0078324944, 55.2557757237), (167.9442165859, 45.1383741461), (158.2999507051, 41.2219816828), (153.6498069287, 33.6961578275), (151.1966151435, 19.7344626085), (149.3409160954, 6.7586668869), (148.8609098714, -3.2336346069), (146.2203115491, 9.0591881661), (145.0477904424, 18.2716360534), (145.1954234699, 32.0748616611), (145.9479817794, 44.861607514), (151.1720408653, 54.4889076863), (152.6994507357, 56.5436942931), (156.2861528641, 58.0316046859), (158.721268177, 58)],
                knots=[0, 0, 0, 0, 0.069690197, 0.1356665503, 0.2080476064, 0.276852742, 0.3656957578, 0.4568862831, 0.5110341684, 0.5776983663, 0.655798377, 0.7425082995, 0.82959111, 0.9048625863, 0.9418786834, 1, 1, 1, 1], degree=3))
        make_face()
    extrude(amount=F1_DEPTH)


solid = Compound([f1.part, f1b.part, f1c.part, f1d.part, f1e.part, f1f.part, f1g.part, f1h.part])
